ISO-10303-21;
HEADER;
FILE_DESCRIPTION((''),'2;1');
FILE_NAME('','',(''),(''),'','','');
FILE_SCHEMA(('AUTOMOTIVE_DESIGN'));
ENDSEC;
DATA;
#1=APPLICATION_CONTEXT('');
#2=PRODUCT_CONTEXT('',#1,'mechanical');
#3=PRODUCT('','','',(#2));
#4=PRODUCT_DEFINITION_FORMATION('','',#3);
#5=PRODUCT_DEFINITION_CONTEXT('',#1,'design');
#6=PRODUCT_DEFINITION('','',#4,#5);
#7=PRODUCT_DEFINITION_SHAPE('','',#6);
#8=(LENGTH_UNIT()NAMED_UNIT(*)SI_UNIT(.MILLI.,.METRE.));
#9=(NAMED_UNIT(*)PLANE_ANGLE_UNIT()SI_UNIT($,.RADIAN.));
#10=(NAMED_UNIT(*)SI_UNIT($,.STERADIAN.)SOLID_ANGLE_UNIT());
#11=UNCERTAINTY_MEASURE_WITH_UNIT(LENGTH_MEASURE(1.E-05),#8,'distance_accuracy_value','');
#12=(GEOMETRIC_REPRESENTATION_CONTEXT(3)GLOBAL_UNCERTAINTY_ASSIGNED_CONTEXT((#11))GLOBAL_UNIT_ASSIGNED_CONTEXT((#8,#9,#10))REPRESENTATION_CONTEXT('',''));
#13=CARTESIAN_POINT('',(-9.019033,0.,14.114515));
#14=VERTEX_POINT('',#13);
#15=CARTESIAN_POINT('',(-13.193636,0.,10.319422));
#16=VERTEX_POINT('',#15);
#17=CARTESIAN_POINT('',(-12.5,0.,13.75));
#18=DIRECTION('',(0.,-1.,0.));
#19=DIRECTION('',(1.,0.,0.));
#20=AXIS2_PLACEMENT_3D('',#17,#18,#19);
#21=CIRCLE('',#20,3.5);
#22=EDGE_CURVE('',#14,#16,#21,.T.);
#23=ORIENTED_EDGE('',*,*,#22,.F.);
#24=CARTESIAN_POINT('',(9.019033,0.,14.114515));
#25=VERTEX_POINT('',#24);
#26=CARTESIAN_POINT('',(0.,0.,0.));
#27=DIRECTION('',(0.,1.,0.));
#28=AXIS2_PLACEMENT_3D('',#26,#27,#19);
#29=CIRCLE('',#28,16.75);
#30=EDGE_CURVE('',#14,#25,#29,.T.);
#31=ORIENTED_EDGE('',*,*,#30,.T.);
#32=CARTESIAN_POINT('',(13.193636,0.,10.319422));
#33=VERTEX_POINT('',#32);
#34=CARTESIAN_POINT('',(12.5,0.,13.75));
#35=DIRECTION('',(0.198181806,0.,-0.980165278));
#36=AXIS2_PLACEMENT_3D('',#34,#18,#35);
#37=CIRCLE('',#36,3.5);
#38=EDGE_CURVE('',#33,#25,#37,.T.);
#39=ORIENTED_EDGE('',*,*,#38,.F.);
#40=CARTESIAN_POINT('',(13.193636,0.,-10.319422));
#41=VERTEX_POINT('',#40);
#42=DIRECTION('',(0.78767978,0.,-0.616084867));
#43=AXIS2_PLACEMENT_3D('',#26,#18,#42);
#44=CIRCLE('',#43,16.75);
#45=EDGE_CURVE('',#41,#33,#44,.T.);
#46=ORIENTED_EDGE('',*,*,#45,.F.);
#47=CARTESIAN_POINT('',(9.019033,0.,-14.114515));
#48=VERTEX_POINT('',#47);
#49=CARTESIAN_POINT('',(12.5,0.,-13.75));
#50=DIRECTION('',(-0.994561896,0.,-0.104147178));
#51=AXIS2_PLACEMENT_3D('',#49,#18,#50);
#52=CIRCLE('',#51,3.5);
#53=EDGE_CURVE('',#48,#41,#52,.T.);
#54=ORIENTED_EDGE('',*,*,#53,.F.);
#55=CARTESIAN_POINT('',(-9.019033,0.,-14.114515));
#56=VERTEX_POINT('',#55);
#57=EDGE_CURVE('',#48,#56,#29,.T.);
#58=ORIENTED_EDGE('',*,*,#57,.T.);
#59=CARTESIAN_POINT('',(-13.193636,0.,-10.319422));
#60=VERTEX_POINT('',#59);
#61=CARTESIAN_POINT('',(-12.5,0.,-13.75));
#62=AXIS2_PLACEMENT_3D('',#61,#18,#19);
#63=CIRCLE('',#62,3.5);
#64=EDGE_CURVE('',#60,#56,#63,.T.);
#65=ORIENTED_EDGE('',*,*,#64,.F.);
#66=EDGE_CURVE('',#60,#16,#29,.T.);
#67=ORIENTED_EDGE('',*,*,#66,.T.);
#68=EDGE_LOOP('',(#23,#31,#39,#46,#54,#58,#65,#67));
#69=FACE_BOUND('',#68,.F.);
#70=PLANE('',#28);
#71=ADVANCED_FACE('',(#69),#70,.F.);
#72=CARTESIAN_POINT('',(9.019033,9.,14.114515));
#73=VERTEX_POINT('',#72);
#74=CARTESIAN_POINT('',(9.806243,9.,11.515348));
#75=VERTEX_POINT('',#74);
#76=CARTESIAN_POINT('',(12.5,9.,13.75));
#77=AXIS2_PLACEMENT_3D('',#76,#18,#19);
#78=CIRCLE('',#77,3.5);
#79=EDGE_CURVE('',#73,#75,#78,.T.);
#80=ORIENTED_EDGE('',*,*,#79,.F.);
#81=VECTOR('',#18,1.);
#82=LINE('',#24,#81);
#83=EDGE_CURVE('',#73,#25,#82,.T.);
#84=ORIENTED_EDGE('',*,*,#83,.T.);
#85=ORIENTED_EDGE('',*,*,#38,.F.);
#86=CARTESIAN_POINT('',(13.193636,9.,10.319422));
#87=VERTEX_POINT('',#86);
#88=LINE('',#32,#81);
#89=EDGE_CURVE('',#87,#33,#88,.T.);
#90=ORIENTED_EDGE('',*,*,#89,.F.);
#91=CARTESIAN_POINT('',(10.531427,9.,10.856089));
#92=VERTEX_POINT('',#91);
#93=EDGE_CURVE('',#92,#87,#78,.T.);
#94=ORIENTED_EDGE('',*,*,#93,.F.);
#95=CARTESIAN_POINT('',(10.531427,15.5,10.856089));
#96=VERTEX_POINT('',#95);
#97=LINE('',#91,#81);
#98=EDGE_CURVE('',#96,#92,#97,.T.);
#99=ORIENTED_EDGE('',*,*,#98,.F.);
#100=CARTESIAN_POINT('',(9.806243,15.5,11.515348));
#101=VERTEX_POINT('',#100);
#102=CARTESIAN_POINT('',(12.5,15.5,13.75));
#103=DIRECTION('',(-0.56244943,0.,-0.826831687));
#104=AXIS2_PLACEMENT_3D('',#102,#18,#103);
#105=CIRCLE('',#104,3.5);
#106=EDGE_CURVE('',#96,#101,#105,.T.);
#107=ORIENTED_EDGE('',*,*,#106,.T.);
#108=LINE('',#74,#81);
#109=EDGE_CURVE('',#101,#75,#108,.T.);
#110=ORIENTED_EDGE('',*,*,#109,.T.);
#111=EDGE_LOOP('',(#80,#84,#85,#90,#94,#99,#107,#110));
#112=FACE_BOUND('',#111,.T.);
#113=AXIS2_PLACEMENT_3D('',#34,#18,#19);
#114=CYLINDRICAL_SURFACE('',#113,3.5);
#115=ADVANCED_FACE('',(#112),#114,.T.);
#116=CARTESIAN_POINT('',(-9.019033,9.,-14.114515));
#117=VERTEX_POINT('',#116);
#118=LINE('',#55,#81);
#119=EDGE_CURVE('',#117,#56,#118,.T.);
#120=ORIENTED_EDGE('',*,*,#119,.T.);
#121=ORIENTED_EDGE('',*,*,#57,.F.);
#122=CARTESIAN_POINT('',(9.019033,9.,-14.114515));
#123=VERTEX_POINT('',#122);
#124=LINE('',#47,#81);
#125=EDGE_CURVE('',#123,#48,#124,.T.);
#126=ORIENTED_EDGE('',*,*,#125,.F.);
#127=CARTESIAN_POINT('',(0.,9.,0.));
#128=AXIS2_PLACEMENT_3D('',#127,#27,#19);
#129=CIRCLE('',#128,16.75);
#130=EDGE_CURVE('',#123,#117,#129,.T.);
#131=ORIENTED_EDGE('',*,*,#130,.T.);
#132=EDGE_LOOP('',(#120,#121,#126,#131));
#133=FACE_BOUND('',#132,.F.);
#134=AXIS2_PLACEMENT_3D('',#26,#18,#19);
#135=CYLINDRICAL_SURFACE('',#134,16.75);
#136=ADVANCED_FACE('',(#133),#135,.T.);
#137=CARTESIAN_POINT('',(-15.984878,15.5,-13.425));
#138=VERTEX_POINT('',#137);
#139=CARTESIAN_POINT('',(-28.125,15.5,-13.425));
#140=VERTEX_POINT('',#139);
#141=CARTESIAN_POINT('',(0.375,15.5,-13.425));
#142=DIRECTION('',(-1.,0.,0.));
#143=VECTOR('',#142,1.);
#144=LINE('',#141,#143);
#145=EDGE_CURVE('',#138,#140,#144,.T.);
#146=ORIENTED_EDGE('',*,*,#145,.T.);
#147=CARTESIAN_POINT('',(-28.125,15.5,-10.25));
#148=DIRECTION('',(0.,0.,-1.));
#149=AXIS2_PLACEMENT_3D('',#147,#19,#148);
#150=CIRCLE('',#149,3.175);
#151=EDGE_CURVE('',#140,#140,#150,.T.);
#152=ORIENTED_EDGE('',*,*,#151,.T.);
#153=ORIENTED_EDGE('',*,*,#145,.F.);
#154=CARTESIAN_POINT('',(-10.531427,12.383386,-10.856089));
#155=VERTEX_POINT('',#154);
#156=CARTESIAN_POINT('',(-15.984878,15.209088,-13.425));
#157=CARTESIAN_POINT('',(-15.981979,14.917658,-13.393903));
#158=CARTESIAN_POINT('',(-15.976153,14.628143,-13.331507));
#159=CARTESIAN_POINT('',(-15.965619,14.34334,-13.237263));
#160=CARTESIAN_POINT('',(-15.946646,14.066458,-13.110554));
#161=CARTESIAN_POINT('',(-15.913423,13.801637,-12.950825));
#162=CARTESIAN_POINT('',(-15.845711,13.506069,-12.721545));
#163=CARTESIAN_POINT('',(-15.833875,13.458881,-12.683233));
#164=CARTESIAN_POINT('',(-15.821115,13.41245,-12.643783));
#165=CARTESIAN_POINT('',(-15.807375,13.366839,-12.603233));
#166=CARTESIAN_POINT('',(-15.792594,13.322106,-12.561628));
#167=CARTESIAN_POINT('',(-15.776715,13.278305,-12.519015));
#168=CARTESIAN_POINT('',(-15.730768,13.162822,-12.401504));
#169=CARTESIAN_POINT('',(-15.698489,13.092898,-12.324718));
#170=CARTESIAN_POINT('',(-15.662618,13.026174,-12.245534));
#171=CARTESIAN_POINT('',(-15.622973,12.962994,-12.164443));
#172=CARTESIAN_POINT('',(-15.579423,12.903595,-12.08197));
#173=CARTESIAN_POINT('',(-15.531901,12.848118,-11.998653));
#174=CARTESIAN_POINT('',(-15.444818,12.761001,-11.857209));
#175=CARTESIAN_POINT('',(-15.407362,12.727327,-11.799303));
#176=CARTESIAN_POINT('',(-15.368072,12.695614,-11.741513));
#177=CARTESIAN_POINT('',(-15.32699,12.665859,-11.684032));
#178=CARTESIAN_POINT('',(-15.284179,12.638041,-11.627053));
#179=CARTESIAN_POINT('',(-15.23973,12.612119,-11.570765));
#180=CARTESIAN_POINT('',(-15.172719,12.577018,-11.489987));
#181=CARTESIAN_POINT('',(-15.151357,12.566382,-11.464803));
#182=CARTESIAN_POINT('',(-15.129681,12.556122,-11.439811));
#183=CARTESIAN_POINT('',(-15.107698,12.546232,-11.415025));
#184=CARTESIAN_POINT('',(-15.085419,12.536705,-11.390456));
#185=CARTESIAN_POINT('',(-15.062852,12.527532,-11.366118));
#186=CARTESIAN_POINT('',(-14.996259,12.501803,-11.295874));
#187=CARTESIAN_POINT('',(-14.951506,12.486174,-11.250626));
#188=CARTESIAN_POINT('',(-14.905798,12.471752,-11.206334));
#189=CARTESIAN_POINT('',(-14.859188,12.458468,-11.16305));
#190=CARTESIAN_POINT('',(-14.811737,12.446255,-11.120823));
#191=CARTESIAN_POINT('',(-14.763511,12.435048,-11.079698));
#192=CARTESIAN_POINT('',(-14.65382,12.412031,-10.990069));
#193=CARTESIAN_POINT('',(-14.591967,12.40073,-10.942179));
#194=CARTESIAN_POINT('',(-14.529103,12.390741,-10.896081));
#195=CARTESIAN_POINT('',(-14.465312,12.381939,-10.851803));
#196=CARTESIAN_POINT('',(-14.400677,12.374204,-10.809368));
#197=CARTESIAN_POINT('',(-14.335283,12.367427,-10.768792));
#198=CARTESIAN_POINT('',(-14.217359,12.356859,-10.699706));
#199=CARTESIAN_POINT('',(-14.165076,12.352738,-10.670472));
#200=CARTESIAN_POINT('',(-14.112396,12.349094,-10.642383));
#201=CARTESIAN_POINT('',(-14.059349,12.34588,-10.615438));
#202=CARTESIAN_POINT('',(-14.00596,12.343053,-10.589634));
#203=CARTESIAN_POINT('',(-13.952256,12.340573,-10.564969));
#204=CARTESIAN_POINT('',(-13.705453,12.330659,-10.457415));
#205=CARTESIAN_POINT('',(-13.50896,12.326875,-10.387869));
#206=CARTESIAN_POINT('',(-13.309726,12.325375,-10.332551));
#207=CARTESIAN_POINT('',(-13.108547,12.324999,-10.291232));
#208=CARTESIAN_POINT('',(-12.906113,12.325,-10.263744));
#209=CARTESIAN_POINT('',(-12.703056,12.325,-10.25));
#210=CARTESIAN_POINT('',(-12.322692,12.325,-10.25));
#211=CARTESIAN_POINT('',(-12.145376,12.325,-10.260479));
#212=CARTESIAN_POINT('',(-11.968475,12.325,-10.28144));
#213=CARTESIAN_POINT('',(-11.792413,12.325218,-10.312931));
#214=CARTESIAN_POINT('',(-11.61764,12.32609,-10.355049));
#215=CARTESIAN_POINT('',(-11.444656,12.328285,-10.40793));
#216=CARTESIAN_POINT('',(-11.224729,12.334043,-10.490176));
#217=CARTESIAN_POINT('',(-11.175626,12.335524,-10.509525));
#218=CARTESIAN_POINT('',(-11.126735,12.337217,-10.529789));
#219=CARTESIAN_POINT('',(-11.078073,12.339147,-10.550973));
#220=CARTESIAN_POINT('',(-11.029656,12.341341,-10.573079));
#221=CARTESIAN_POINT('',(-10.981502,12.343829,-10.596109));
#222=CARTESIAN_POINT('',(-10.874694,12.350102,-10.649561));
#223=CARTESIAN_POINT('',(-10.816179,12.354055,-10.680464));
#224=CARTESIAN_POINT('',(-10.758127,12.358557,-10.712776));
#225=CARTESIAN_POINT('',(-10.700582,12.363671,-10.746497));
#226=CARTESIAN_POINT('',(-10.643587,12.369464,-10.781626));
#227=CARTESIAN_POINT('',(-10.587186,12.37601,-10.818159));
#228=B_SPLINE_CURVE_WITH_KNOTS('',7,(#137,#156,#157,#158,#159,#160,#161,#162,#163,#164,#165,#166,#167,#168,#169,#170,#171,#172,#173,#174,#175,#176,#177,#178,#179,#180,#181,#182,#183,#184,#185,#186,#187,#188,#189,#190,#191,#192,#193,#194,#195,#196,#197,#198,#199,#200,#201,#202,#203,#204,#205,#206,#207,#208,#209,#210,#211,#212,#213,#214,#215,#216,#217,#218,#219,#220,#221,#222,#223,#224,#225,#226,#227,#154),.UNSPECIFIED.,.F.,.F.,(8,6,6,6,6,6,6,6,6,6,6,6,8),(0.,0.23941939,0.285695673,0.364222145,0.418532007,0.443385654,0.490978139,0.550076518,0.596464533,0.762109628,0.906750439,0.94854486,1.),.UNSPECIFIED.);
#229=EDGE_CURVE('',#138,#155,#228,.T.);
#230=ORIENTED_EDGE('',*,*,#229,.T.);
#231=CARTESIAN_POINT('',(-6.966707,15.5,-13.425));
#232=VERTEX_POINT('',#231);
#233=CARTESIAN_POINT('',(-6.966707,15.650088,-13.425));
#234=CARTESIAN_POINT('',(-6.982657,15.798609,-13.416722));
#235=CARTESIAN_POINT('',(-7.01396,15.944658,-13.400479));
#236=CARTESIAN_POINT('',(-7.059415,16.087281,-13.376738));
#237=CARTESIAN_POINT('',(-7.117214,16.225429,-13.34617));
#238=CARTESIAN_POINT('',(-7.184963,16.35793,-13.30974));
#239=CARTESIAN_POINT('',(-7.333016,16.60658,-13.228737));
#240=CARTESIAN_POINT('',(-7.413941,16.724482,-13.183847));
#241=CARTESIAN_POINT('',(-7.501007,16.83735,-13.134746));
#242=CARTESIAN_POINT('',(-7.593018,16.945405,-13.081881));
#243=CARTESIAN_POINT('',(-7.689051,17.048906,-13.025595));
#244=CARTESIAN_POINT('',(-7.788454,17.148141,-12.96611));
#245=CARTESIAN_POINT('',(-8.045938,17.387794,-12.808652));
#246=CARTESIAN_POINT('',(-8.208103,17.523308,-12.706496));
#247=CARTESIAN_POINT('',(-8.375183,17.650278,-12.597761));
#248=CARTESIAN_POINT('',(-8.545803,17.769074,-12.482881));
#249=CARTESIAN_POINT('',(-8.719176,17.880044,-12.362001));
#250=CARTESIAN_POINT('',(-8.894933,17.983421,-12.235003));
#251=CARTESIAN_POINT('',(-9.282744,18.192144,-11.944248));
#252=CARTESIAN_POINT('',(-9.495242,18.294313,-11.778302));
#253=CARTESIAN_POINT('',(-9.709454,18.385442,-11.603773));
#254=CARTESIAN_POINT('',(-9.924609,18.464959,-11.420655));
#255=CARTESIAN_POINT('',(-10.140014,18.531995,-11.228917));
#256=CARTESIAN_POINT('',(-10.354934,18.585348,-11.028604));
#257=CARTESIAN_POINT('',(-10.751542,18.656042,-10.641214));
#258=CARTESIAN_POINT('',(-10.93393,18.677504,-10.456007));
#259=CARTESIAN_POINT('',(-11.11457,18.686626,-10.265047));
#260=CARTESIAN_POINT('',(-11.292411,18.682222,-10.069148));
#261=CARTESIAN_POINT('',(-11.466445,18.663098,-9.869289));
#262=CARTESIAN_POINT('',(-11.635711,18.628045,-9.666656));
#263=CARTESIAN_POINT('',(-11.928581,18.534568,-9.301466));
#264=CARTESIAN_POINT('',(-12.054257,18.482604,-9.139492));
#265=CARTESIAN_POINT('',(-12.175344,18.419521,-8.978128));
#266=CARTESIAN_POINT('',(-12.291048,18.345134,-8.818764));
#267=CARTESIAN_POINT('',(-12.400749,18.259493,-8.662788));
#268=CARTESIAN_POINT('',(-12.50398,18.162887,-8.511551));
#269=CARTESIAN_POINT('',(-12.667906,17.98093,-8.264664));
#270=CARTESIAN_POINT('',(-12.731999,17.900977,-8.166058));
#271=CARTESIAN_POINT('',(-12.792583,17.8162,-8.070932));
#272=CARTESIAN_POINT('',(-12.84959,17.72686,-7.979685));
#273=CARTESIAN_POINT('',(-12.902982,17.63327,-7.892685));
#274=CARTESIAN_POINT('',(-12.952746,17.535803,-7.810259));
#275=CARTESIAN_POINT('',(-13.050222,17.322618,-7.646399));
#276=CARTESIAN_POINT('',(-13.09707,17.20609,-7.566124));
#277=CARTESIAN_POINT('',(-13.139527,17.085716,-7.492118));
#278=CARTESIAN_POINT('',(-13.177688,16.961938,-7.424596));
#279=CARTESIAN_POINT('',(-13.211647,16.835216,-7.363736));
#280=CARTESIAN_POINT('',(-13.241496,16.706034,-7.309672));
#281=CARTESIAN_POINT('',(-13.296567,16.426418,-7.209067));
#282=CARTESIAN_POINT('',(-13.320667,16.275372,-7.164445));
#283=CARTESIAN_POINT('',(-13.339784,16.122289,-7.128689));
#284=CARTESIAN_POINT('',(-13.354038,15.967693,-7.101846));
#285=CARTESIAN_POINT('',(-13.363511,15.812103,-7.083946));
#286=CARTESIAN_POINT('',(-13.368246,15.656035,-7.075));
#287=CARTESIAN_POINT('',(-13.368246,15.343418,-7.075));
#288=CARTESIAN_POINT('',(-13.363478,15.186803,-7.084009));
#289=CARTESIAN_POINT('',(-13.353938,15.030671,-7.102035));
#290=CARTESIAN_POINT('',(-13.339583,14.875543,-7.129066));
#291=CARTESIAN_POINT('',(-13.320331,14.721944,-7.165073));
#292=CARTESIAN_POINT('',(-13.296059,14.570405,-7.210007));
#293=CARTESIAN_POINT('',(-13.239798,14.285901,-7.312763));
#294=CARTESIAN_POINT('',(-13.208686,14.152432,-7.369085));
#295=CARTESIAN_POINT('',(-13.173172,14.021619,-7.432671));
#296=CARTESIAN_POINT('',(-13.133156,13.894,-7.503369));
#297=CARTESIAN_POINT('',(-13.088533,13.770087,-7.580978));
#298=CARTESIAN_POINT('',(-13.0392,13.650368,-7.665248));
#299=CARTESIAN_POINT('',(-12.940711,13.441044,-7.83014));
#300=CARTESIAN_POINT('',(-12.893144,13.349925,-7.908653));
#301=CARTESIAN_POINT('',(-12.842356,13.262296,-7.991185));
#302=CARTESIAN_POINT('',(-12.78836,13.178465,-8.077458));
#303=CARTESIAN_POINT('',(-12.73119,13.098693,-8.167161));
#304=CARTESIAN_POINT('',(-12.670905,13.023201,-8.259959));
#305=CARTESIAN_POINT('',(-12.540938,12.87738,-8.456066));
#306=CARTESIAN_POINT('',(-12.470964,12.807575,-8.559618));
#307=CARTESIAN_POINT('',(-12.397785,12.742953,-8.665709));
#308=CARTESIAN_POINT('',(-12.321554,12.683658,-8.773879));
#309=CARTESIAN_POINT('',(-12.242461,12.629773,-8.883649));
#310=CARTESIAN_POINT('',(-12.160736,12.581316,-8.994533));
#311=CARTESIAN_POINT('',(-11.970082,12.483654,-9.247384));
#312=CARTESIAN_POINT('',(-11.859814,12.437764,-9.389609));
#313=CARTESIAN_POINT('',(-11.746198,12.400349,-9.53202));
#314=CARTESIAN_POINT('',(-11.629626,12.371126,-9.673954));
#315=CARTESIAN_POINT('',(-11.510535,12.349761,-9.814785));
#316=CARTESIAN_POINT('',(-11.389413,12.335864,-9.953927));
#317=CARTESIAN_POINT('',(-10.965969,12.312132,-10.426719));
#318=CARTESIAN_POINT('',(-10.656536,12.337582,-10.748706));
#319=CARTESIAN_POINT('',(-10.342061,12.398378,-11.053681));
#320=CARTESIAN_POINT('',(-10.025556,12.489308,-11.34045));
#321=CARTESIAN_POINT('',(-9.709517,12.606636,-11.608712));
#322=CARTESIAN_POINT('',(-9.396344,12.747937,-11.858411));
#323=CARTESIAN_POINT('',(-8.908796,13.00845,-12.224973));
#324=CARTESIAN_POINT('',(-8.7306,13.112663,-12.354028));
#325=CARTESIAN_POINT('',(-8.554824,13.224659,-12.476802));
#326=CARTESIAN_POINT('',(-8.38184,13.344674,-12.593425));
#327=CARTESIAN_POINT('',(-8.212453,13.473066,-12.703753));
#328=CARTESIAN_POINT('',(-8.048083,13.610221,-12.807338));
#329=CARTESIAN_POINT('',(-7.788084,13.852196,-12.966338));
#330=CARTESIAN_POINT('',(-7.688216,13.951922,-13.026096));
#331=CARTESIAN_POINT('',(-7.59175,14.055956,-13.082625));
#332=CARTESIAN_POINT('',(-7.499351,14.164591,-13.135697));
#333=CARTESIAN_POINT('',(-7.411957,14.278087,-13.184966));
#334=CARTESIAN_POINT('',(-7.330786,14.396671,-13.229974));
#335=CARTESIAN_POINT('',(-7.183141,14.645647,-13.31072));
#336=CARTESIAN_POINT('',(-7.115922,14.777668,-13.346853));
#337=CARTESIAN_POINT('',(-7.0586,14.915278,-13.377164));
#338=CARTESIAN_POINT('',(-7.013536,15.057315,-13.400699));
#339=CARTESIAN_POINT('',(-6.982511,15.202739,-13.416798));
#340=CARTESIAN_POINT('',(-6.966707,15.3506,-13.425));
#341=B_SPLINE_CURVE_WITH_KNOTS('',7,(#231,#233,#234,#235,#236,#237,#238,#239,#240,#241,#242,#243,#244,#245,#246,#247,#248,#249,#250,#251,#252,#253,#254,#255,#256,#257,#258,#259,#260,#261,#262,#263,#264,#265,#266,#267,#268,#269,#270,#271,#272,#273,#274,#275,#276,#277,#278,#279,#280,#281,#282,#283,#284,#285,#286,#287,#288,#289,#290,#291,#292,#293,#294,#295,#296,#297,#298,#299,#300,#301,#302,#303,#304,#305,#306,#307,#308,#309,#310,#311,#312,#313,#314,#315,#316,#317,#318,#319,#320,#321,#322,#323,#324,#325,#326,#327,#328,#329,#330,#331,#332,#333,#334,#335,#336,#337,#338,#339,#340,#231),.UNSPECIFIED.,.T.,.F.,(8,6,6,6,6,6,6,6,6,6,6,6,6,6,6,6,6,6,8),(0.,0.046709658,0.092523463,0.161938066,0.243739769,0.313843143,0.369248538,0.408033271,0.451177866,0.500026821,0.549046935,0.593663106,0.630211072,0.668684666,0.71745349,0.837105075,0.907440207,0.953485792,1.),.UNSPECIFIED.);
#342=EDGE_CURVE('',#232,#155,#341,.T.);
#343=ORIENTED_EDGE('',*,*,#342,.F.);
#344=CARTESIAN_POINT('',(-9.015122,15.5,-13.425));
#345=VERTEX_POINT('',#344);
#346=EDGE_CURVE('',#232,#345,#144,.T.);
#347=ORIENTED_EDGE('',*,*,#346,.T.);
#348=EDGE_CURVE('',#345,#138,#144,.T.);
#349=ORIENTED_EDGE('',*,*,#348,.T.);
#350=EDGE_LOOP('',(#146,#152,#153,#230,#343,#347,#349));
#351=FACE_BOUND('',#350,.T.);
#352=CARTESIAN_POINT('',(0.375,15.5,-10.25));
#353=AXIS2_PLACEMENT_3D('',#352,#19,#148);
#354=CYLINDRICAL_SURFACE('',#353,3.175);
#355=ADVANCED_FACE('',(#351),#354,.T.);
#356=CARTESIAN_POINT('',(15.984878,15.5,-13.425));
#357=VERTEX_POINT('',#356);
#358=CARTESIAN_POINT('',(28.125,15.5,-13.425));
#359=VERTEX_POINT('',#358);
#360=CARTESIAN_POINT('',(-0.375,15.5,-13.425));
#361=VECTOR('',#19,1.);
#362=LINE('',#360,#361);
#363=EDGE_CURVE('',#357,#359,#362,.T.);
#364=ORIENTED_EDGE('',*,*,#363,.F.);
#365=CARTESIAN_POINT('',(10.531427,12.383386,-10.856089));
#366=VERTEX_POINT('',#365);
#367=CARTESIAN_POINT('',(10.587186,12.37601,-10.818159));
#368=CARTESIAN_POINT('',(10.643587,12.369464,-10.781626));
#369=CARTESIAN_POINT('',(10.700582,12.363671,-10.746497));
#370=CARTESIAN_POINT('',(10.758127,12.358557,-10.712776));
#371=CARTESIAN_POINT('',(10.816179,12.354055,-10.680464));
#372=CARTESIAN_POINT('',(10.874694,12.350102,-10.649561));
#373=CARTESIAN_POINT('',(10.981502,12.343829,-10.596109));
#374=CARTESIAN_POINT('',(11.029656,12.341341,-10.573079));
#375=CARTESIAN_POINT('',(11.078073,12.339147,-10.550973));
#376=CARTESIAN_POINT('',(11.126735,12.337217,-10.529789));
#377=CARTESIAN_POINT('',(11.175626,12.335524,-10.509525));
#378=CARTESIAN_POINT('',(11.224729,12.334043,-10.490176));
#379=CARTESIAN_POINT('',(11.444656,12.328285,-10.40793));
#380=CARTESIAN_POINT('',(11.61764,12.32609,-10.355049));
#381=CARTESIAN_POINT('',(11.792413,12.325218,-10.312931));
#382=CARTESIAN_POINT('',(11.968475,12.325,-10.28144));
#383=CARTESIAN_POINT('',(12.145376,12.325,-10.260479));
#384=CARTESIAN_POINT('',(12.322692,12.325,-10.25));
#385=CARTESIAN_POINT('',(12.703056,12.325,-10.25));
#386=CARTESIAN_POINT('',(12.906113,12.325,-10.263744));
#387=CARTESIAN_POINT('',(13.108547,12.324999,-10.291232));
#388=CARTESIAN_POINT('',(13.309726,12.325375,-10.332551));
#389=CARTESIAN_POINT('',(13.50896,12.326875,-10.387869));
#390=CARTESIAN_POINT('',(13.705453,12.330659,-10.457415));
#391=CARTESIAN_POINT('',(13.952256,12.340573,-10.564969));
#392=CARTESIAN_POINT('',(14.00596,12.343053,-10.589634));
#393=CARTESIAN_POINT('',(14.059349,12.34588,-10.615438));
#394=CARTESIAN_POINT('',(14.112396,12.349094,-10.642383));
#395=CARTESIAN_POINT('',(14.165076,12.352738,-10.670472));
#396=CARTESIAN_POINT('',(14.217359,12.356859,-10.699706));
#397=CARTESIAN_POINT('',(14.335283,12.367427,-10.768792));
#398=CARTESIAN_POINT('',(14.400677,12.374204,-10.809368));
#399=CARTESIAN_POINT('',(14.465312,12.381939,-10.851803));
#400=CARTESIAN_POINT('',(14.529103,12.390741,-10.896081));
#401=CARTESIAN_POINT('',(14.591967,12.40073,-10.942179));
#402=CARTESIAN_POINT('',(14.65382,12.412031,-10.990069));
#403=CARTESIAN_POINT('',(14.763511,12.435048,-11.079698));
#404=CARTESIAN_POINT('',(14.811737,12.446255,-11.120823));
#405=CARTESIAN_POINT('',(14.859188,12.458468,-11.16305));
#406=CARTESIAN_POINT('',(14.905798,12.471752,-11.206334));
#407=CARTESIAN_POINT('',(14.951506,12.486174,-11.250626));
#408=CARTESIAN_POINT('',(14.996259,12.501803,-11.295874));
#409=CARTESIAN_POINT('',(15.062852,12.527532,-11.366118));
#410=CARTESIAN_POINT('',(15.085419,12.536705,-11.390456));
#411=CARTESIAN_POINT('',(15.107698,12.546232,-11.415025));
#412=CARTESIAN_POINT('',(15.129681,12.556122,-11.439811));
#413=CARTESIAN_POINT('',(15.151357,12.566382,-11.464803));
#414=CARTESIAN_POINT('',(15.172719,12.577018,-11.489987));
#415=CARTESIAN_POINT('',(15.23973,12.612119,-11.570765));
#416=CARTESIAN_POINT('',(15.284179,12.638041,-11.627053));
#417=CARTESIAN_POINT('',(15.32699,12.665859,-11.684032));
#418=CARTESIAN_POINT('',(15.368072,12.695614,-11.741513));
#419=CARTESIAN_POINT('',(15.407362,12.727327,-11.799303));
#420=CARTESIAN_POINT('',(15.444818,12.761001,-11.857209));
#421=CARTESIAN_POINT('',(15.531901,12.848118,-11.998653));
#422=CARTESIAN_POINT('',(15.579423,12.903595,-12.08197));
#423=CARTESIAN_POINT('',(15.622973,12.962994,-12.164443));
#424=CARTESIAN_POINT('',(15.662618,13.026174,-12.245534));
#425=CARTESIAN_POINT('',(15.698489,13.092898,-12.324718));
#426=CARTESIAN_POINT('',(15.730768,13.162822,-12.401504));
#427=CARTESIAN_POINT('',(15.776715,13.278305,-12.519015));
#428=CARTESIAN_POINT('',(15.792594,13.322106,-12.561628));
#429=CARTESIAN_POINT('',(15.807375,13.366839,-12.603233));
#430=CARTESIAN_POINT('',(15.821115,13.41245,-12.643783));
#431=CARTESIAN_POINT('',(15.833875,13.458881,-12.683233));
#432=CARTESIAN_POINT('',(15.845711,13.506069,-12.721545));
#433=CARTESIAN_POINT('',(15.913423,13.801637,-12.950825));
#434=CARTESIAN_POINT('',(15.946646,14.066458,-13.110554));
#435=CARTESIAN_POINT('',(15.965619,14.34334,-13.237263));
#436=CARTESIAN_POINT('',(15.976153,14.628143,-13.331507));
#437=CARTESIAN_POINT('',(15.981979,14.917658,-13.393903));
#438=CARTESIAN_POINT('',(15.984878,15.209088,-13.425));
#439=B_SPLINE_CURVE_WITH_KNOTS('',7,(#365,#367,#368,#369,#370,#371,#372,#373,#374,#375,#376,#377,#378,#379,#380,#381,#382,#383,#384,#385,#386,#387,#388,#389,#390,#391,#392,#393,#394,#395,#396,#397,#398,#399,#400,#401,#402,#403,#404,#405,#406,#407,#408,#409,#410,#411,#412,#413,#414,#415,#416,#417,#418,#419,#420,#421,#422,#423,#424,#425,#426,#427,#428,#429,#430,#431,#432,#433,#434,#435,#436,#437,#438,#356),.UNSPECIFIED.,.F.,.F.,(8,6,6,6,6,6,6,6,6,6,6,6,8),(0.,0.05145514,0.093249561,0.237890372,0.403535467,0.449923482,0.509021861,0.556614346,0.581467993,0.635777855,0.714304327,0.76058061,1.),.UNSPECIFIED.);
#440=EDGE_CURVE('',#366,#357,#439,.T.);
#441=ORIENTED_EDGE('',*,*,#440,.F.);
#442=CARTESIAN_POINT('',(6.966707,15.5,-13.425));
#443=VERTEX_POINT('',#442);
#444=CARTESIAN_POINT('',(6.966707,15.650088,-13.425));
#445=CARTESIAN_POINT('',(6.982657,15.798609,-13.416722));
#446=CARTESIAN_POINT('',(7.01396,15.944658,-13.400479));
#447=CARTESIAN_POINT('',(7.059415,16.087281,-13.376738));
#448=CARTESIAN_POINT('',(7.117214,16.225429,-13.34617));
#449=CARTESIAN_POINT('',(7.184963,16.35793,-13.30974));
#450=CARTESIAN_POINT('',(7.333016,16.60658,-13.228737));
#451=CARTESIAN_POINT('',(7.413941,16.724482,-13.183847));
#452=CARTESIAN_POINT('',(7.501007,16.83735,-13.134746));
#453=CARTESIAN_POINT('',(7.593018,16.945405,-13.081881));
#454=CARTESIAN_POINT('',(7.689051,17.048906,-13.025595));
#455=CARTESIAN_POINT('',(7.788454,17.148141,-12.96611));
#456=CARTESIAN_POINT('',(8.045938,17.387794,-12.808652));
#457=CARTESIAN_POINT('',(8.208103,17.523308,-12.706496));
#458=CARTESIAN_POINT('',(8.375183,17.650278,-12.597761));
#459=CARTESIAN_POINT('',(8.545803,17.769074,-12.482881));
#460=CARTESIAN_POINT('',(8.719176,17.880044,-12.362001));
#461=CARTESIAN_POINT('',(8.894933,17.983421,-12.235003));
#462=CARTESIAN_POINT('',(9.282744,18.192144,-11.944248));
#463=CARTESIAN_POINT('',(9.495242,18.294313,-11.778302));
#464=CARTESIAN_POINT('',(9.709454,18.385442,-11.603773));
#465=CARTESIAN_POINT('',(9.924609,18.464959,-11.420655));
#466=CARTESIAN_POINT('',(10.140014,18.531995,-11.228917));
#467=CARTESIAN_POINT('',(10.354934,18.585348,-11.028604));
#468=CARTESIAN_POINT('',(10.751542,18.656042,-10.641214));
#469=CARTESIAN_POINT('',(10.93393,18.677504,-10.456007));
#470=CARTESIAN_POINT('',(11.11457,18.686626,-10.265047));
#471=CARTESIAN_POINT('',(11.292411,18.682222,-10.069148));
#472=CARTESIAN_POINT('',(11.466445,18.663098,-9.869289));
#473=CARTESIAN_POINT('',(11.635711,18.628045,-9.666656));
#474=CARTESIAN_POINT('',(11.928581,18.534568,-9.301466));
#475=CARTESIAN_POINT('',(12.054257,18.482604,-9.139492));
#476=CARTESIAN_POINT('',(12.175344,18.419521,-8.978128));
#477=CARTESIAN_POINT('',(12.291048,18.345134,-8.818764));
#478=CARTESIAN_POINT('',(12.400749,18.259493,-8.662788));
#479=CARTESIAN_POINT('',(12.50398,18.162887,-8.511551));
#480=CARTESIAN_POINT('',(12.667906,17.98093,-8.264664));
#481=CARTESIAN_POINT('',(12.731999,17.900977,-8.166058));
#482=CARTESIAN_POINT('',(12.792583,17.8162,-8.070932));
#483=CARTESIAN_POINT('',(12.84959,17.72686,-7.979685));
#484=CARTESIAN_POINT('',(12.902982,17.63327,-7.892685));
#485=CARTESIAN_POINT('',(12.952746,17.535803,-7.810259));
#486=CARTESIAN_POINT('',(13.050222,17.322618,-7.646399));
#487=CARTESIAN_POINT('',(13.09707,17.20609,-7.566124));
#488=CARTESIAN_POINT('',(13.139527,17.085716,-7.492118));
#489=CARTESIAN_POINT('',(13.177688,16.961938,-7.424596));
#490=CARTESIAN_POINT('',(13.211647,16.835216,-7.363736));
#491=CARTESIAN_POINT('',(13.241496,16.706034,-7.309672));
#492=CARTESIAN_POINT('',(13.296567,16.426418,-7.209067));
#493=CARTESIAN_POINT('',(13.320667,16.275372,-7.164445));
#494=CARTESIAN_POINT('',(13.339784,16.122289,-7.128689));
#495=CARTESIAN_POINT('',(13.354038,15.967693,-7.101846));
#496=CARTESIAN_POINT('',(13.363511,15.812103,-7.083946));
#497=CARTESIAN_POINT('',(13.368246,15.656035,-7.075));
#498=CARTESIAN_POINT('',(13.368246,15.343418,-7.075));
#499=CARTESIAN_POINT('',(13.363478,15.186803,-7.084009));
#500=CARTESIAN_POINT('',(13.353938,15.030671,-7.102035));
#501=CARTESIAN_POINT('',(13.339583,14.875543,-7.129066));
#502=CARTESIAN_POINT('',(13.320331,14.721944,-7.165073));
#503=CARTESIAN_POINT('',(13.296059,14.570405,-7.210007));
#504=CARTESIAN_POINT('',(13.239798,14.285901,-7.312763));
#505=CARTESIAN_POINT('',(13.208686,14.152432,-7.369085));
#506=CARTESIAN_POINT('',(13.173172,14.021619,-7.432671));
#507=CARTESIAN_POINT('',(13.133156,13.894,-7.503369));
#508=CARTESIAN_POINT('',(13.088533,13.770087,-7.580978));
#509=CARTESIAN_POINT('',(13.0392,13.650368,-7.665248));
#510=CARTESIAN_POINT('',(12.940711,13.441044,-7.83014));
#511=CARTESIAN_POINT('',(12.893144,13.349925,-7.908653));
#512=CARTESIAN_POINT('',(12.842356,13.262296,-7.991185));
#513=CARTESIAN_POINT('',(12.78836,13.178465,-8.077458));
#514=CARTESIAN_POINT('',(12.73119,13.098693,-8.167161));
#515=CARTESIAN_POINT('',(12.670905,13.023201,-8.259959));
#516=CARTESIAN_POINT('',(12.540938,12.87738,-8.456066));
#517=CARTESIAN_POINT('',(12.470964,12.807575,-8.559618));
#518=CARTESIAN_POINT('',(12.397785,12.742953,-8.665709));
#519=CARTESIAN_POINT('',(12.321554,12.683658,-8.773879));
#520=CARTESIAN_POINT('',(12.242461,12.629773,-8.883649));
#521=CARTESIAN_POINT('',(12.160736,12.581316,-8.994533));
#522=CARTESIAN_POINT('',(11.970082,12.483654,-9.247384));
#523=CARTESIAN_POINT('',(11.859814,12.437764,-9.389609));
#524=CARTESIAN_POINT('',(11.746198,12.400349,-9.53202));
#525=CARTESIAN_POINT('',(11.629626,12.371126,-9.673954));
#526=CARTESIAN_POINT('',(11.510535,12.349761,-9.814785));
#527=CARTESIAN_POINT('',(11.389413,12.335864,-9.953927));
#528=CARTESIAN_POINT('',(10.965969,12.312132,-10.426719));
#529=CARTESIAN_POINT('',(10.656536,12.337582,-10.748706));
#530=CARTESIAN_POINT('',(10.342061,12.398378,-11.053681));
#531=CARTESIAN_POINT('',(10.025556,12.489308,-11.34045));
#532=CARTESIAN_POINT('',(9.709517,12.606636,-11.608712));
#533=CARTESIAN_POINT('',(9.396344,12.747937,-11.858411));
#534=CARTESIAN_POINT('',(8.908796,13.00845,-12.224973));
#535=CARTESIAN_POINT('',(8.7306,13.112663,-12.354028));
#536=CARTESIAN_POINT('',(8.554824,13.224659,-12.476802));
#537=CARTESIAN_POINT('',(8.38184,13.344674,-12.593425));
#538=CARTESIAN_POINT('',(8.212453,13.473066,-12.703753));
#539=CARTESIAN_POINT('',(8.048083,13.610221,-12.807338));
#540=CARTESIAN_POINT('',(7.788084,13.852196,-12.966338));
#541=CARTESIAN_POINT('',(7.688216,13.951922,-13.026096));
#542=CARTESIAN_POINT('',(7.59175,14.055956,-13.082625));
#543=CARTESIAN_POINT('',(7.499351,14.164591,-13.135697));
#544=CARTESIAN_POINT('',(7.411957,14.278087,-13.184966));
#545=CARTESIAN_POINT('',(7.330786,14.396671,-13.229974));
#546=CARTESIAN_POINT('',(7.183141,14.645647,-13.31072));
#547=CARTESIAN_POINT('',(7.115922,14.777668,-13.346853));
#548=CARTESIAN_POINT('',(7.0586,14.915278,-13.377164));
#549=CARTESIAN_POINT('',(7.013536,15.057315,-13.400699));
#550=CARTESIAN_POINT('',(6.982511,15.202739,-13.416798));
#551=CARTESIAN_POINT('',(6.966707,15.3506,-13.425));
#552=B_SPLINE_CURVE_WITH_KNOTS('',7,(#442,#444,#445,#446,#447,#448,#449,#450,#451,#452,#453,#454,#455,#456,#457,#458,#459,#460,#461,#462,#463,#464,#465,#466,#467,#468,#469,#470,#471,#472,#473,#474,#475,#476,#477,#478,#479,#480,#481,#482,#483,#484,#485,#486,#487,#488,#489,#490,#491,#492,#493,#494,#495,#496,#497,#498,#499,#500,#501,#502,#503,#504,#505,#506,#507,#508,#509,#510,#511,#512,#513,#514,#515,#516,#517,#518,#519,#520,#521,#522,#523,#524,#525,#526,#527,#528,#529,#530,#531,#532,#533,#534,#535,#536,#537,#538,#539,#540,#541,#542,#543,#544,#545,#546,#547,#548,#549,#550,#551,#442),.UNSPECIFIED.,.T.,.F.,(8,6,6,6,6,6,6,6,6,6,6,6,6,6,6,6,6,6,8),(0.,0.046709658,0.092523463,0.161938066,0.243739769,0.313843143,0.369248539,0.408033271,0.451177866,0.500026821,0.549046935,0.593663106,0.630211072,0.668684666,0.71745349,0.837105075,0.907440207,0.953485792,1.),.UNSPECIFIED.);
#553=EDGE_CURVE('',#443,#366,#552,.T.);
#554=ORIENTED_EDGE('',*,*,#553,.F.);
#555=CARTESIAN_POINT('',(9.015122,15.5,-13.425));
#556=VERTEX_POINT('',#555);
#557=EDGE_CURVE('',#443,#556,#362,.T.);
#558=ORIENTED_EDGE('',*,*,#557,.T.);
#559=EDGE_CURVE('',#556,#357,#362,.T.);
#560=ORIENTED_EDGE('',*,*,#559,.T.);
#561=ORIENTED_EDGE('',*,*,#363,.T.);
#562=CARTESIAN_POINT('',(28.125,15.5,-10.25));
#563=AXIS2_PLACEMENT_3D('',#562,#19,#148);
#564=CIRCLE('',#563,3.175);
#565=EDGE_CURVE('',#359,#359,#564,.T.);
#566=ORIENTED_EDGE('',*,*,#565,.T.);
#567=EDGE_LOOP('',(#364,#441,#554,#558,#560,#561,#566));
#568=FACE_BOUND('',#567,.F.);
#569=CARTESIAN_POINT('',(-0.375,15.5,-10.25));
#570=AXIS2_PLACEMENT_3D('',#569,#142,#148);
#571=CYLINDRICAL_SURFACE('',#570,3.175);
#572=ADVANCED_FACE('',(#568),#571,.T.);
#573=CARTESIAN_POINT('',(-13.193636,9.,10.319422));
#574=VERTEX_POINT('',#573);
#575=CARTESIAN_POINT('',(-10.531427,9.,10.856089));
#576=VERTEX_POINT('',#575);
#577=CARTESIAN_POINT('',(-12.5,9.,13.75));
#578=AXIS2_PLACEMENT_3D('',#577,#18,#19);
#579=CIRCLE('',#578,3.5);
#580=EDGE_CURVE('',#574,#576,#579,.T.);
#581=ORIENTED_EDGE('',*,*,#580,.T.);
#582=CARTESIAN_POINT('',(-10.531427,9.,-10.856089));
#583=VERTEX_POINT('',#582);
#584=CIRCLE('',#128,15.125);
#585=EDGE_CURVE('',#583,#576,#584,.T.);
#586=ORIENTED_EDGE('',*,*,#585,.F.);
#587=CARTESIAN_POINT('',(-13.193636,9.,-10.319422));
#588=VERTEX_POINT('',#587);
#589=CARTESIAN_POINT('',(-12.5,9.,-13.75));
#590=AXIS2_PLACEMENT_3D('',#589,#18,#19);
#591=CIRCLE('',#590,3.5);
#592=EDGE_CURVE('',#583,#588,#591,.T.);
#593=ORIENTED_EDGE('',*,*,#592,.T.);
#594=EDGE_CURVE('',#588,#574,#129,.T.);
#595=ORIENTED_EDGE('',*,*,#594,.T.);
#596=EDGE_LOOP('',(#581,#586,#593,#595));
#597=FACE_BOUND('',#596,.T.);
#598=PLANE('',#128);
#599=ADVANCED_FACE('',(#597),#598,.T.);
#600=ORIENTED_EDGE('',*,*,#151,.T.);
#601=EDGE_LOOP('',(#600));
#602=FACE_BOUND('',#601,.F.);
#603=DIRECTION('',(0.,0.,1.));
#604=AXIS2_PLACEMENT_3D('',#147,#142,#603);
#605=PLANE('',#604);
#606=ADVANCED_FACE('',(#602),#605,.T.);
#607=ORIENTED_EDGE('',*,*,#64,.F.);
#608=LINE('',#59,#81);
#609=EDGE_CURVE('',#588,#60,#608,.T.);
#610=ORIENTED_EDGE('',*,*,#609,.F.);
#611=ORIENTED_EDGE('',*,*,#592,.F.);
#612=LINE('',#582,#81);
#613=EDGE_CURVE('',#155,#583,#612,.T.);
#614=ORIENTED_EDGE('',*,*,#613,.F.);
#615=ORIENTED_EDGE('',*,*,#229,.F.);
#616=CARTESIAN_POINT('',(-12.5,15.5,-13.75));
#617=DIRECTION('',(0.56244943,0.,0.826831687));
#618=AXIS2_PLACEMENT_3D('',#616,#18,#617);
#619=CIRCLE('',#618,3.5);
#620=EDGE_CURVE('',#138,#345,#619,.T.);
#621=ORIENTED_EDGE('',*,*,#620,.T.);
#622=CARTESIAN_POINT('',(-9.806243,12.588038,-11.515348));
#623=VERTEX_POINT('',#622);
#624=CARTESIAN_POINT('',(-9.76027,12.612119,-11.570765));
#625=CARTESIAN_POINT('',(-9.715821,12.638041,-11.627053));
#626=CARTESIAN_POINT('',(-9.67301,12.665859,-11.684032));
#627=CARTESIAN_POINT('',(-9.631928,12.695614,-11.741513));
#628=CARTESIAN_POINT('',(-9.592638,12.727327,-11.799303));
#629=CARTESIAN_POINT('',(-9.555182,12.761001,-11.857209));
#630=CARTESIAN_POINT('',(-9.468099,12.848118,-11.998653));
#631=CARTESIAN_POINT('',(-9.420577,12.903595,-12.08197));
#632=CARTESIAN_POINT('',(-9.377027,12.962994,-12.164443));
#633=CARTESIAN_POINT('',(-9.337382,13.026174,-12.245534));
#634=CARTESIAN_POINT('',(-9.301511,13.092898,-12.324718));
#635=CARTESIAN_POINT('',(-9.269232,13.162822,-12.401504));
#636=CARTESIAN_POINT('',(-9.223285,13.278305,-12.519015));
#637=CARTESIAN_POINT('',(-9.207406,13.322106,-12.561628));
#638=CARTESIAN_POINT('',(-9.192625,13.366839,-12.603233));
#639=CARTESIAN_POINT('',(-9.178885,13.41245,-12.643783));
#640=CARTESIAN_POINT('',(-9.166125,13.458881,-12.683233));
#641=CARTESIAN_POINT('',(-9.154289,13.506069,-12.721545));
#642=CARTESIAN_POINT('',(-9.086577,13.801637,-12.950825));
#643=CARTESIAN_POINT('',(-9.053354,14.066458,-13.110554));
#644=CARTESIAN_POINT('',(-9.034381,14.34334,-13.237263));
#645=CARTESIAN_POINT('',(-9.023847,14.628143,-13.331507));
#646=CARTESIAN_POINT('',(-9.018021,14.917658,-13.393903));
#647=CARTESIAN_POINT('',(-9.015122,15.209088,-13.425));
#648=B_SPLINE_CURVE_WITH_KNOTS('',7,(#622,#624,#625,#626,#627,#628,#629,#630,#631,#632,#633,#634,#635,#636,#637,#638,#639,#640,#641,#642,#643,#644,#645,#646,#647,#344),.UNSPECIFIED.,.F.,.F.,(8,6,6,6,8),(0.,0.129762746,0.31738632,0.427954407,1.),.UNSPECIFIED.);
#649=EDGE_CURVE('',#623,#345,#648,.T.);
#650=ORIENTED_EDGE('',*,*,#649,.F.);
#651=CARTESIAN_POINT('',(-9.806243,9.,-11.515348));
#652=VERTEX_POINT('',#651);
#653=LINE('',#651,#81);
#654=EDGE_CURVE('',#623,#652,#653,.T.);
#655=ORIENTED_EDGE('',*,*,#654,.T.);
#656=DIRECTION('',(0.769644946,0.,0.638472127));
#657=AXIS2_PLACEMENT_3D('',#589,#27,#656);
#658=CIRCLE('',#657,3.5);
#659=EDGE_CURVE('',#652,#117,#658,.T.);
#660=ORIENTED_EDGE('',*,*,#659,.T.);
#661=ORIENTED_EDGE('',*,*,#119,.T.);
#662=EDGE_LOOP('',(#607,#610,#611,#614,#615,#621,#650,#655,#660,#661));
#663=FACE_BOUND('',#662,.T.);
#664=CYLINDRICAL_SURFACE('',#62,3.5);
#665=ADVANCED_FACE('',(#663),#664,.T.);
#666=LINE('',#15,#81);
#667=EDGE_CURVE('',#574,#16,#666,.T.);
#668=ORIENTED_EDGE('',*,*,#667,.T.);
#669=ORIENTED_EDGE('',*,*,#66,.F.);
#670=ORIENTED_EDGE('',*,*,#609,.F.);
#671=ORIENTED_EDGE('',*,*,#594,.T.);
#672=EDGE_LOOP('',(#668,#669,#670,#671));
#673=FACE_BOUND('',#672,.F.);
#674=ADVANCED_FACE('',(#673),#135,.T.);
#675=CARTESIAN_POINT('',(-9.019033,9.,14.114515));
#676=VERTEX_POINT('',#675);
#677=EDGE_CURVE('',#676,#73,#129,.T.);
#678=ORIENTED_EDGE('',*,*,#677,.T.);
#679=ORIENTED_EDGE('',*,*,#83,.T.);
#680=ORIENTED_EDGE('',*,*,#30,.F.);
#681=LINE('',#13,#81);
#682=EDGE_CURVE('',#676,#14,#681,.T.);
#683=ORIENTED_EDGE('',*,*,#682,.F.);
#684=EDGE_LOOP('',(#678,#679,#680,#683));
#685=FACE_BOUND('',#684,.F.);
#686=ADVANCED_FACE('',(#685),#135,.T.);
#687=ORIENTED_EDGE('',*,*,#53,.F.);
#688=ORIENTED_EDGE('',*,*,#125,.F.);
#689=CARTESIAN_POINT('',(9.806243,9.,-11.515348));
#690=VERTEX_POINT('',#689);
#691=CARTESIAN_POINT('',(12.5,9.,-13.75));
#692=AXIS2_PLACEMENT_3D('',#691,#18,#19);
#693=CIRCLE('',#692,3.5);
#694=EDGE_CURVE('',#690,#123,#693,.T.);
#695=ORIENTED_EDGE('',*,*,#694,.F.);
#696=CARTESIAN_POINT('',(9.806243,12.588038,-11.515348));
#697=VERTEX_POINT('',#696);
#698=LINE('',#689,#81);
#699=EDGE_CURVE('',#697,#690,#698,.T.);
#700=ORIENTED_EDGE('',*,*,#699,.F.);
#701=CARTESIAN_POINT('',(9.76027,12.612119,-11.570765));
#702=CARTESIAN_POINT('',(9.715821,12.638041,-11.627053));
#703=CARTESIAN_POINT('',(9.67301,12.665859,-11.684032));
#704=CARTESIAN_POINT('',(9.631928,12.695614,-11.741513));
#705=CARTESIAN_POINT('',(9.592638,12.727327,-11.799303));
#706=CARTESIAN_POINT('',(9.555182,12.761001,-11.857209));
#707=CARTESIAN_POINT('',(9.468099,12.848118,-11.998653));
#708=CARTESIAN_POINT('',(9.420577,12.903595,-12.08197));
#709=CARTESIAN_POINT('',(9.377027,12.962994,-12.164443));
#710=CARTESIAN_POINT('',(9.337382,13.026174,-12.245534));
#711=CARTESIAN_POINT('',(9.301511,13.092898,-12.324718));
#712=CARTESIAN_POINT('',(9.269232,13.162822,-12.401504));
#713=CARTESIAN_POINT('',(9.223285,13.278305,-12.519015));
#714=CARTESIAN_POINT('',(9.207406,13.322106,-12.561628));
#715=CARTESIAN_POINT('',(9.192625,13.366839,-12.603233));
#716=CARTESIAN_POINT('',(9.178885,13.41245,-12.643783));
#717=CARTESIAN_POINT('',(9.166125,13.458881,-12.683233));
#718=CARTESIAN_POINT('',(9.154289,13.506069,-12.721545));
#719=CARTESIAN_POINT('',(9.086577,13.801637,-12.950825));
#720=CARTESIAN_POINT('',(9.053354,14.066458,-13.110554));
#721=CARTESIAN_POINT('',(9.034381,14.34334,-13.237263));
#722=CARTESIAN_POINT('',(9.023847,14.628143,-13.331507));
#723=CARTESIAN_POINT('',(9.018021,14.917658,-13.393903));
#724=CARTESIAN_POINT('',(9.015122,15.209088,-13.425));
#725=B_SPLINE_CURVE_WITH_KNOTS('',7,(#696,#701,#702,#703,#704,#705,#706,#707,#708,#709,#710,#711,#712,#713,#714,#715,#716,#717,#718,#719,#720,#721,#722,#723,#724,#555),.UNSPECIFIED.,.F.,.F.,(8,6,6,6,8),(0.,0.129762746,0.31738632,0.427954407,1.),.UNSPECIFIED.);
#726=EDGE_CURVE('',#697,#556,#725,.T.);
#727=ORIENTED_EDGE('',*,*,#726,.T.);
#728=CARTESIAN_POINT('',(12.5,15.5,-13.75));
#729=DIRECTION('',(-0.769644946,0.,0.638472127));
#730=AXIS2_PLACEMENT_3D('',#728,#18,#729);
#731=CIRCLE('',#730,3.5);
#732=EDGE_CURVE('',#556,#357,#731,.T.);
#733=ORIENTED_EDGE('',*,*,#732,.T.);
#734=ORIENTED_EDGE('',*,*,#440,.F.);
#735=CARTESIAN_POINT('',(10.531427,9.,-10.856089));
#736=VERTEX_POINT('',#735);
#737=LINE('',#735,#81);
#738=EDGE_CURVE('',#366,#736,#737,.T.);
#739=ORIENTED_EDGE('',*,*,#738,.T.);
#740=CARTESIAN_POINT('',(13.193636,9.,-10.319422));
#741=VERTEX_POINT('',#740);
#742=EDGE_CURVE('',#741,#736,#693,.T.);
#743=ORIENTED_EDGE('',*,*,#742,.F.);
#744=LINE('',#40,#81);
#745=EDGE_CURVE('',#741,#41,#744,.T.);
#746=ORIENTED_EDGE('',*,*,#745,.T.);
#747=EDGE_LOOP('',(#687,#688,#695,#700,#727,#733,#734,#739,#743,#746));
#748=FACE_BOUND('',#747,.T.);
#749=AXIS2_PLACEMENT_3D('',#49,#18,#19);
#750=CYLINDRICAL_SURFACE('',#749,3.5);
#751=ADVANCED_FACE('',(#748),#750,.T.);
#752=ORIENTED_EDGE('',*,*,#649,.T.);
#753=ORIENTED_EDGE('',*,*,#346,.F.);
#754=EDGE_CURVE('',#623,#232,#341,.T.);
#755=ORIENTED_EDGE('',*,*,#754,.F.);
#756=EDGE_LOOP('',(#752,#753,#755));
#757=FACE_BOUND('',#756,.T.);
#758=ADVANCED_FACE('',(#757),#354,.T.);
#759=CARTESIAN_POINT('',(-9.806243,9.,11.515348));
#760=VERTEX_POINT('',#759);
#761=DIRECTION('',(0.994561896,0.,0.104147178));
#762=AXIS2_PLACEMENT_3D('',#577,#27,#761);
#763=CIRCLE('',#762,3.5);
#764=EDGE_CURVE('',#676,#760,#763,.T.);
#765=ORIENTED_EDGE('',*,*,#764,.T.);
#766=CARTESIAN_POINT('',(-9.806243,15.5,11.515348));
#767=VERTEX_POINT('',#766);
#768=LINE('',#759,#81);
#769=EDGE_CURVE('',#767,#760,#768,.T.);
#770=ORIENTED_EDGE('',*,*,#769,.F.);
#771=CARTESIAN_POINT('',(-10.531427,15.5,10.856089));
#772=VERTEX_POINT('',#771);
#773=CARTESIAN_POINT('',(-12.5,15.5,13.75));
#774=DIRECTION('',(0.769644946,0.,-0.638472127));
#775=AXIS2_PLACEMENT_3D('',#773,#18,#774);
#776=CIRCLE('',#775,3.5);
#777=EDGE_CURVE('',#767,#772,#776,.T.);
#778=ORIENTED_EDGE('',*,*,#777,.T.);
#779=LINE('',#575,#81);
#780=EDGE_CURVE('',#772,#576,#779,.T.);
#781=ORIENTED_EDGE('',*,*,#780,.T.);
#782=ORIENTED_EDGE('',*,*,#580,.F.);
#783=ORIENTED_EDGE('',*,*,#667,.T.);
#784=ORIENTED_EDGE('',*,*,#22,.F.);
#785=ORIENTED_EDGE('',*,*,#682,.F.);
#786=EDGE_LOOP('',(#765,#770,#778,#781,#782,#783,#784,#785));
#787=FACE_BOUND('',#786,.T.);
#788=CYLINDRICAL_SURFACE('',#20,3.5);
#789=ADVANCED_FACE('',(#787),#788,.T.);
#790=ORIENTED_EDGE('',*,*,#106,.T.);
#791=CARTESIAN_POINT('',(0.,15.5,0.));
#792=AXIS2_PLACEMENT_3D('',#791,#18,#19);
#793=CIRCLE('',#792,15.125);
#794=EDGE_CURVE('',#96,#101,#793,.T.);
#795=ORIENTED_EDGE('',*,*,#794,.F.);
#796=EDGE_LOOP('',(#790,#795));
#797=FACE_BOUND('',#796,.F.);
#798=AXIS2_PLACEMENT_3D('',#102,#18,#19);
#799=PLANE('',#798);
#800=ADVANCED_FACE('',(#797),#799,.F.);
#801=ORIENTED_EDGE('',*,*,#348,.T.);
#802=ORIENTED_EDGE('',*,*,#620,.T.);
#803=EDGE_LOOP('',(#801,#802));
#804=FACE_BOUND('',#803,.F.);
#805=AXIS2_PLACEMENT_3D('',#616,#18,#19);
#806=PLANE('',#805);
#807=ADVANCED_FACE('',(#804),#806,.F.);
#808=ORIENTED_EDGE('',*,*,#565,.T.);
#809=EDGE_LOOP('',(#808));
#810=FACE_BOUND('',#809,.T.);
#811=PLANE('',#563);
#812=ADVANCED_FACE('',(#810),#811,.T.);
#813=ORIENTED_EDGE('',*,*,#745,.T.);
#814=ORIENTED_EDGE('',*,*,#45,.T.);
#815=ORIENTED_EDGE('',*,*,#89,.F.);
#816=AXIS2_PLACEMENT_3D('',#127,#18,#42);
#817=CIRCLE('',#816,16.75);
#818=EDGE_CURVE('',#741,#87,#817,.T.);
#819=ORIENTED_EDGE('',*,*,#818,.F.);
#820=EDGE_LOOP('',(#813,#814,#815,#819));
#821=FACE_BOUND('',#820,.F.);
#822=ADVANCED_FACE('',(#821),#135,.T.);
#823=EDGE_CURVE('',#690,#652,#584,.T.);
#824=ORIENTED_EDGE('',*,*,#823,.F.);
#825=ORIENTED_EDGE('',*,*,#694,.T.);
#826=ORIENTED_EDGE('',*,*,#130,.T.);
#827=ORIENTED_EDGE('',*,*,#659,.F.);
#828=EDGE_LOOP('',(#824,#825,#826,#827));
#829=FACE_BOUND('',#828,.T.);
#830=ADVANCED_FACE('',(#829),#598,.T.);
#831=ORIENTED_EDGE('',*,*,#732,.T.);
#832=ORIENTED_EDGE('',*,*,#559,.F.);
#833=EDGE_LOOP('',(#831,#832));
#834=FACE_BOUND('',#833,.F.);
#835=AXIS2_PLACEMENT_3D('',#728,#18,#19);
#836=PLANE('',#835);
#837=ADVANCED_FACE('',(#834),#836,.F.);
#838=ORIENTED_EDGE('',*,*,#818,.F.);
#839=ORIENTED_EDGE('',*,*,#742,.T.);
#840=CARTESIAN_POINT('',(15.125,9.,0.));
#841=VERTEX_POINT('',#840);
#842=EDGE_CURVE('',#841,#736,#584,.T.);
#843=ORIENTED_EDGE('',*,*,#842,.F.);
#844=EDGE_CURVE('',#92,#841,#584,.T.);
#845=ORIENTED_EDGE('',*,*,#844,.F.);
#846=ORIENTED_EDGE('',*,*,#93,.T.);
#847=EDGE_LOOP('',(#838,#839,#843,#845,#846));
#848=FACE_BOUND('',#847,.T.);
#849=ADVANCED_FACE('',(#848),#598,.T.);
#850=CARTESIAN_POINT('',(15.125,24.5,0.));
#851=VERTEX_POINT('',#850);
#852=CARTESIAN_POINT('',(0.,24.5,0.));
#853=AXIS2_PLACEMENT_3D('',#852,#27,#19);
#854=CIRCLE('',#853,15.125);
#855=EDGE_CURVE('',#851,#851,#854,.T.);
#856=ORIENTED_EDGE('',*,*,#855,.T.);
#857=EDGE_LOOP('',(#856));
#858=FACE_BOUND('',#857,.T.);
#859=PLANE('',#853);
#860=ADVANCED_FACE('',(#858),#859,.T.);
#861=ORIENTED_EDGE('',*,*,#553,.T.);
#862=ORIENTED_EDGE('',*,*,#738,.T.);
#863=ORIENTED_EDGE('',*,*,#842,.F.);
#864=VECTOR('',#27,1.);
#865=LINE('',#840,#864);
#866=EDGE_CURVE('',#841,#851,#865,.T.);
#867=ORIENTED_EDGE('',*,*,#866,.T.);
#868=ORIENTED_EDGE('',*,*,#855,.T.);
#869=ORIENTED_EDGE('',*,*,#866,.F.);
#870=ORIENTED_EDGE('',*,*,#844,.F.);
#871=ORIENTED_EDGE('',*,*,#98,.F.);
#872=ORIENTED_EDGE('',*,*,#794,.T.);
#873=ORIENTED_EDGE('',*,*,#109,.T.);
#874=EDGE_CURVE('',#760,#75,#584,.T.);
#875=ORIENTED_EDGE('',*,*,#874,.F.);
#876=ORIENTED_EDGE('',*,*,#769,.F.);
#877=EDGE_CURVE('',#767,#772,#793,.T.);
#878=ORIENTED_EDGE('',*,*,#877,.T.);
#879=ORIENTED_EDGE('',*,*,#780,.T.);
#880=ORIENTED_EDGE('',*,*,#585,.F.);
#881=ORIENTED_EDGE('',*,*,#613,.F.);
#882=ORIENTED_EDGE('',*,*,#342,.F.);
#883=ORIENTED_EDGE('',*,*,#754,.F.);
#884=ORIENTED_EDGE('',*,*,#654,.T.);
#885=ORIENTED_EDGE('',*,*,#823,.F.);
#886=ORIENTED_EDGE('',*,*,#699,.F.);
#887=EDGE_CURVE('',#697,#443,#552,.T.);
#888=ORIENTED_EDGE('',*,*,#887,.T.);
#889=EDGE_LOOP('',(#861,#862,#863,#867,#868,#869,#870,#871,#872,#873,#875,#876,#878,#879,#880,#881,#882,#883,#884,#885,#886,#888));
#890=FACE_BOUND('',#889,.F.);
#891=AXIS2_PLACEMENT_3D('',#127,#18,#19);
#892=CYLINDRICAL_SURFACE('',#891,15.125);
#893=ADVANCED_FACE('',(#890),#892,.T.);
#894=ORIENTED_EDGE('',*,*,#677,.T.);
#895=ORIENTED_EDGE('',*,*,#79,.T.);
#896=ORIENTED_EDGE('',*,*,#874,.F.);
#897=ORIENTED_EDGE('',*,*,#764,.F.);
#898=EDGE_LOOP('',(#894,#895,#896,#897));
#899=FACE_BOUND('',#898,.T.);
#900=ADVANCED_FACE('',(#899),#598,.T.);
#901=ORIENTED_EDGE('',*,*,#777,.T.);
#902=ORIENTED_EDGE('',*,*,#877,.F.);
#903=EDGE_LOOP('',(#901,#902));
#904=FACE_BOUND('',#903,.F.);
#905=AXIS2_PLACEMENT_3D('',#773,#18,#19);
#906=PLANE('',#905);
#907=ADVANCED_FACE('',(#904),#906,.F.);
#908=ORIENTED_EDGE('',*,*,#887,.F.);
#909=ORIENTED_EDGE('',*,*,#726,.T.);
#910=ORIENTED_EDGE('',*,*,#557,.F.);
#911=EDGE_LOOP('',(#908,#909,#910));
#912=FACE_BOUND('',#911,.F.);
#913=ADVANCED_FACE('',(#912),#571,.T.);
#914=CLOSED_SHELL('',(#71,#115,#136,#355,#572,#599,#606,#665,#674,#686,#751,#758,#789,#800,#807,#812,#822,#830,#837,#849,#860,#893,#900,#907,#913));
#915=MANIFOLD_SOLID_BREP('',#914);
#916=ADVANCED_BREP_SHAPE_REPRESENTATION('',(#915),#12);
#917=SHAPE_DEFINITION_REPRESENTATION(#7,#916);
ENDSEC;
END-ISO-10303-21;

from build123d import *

# Parameters (mm, degrees)
SKETCH1_R           = 16.75
BOSS_EXTRUDE1_DEPTH = 9
SKETCH2_R           = 15.125
BOSS_EXTRUDE2_DEPTH = 15.5
SKETCH3_R           = 3.5
BOSS_EXTRUDE3_DEPTH = 15.5
BOSS_EXTRUDE4_START = -15.5
SKETCH4_R           = 3.175
BOSS_EXTRUDE4_DEPTH = 28.5


with BuildPart() as part:
    # Sketch1 → Boss-Extrude1 (new body)
    with BuildSketch(Plane(origin=(0, 0, 0), x_dir=(1, 0, 0), z_dir=(0, 1, 0))):
        Circle(SKETCH1_R)
    extrude(amount=BOSS_EXTRUDE1_DEPTH)

    # Sketch2 → Boss-Extrude2 (add)
    with BuildSketch(Plane(origin=(0, 9, 0), x_dir=(1, 0, 0), z_dir=(0, 1, 0))):
        Circle(SKETCH2_R)
    extrude(amount=BOSS_EXTRUDE2_DEPTH)

    # Sketch3 → Boss-Extrude3 (add)
    with BuildSketch(Plane.XZ):
        with Locations((-12.5, 13.75)):
            Circle(SKETCH3_R)
        with Locations((12.5, 13.75)):
            Circle(SKETCH3_R)
        with Locations((12.5, -13.75)):
            Circle(SKETCH3_R)
        with Locations((-12.5, -13.75)):
            Circle(SKETCH3_R)
    extrude(amount=-BOSS_EXTRUDE3_DEPTH)

    # Sketch4 → Boss-Extrude4 (add)
    with BuildSketch(Plane(origin=(15.125, 0, 0), x_dir=(0, 0, -1), z_dir=(1, 0, 0)).offset(BOSS_EXTRUDE4_START)):
        with Locations((10.25, 15.5)):
            Circle(SKETCH4_R)
    boss_extrude4 = extrude(amount=BOSS_EXTRUDE4_DEPTH)

    # Mirror1: Boss-Extrude4 across plane
    add(boss_extrude4.mirror(Plane(origin=(0, 0, 0), x_dir=(0, 0, 1), z_dir=(1, 0, 0))))


solid = part.part
